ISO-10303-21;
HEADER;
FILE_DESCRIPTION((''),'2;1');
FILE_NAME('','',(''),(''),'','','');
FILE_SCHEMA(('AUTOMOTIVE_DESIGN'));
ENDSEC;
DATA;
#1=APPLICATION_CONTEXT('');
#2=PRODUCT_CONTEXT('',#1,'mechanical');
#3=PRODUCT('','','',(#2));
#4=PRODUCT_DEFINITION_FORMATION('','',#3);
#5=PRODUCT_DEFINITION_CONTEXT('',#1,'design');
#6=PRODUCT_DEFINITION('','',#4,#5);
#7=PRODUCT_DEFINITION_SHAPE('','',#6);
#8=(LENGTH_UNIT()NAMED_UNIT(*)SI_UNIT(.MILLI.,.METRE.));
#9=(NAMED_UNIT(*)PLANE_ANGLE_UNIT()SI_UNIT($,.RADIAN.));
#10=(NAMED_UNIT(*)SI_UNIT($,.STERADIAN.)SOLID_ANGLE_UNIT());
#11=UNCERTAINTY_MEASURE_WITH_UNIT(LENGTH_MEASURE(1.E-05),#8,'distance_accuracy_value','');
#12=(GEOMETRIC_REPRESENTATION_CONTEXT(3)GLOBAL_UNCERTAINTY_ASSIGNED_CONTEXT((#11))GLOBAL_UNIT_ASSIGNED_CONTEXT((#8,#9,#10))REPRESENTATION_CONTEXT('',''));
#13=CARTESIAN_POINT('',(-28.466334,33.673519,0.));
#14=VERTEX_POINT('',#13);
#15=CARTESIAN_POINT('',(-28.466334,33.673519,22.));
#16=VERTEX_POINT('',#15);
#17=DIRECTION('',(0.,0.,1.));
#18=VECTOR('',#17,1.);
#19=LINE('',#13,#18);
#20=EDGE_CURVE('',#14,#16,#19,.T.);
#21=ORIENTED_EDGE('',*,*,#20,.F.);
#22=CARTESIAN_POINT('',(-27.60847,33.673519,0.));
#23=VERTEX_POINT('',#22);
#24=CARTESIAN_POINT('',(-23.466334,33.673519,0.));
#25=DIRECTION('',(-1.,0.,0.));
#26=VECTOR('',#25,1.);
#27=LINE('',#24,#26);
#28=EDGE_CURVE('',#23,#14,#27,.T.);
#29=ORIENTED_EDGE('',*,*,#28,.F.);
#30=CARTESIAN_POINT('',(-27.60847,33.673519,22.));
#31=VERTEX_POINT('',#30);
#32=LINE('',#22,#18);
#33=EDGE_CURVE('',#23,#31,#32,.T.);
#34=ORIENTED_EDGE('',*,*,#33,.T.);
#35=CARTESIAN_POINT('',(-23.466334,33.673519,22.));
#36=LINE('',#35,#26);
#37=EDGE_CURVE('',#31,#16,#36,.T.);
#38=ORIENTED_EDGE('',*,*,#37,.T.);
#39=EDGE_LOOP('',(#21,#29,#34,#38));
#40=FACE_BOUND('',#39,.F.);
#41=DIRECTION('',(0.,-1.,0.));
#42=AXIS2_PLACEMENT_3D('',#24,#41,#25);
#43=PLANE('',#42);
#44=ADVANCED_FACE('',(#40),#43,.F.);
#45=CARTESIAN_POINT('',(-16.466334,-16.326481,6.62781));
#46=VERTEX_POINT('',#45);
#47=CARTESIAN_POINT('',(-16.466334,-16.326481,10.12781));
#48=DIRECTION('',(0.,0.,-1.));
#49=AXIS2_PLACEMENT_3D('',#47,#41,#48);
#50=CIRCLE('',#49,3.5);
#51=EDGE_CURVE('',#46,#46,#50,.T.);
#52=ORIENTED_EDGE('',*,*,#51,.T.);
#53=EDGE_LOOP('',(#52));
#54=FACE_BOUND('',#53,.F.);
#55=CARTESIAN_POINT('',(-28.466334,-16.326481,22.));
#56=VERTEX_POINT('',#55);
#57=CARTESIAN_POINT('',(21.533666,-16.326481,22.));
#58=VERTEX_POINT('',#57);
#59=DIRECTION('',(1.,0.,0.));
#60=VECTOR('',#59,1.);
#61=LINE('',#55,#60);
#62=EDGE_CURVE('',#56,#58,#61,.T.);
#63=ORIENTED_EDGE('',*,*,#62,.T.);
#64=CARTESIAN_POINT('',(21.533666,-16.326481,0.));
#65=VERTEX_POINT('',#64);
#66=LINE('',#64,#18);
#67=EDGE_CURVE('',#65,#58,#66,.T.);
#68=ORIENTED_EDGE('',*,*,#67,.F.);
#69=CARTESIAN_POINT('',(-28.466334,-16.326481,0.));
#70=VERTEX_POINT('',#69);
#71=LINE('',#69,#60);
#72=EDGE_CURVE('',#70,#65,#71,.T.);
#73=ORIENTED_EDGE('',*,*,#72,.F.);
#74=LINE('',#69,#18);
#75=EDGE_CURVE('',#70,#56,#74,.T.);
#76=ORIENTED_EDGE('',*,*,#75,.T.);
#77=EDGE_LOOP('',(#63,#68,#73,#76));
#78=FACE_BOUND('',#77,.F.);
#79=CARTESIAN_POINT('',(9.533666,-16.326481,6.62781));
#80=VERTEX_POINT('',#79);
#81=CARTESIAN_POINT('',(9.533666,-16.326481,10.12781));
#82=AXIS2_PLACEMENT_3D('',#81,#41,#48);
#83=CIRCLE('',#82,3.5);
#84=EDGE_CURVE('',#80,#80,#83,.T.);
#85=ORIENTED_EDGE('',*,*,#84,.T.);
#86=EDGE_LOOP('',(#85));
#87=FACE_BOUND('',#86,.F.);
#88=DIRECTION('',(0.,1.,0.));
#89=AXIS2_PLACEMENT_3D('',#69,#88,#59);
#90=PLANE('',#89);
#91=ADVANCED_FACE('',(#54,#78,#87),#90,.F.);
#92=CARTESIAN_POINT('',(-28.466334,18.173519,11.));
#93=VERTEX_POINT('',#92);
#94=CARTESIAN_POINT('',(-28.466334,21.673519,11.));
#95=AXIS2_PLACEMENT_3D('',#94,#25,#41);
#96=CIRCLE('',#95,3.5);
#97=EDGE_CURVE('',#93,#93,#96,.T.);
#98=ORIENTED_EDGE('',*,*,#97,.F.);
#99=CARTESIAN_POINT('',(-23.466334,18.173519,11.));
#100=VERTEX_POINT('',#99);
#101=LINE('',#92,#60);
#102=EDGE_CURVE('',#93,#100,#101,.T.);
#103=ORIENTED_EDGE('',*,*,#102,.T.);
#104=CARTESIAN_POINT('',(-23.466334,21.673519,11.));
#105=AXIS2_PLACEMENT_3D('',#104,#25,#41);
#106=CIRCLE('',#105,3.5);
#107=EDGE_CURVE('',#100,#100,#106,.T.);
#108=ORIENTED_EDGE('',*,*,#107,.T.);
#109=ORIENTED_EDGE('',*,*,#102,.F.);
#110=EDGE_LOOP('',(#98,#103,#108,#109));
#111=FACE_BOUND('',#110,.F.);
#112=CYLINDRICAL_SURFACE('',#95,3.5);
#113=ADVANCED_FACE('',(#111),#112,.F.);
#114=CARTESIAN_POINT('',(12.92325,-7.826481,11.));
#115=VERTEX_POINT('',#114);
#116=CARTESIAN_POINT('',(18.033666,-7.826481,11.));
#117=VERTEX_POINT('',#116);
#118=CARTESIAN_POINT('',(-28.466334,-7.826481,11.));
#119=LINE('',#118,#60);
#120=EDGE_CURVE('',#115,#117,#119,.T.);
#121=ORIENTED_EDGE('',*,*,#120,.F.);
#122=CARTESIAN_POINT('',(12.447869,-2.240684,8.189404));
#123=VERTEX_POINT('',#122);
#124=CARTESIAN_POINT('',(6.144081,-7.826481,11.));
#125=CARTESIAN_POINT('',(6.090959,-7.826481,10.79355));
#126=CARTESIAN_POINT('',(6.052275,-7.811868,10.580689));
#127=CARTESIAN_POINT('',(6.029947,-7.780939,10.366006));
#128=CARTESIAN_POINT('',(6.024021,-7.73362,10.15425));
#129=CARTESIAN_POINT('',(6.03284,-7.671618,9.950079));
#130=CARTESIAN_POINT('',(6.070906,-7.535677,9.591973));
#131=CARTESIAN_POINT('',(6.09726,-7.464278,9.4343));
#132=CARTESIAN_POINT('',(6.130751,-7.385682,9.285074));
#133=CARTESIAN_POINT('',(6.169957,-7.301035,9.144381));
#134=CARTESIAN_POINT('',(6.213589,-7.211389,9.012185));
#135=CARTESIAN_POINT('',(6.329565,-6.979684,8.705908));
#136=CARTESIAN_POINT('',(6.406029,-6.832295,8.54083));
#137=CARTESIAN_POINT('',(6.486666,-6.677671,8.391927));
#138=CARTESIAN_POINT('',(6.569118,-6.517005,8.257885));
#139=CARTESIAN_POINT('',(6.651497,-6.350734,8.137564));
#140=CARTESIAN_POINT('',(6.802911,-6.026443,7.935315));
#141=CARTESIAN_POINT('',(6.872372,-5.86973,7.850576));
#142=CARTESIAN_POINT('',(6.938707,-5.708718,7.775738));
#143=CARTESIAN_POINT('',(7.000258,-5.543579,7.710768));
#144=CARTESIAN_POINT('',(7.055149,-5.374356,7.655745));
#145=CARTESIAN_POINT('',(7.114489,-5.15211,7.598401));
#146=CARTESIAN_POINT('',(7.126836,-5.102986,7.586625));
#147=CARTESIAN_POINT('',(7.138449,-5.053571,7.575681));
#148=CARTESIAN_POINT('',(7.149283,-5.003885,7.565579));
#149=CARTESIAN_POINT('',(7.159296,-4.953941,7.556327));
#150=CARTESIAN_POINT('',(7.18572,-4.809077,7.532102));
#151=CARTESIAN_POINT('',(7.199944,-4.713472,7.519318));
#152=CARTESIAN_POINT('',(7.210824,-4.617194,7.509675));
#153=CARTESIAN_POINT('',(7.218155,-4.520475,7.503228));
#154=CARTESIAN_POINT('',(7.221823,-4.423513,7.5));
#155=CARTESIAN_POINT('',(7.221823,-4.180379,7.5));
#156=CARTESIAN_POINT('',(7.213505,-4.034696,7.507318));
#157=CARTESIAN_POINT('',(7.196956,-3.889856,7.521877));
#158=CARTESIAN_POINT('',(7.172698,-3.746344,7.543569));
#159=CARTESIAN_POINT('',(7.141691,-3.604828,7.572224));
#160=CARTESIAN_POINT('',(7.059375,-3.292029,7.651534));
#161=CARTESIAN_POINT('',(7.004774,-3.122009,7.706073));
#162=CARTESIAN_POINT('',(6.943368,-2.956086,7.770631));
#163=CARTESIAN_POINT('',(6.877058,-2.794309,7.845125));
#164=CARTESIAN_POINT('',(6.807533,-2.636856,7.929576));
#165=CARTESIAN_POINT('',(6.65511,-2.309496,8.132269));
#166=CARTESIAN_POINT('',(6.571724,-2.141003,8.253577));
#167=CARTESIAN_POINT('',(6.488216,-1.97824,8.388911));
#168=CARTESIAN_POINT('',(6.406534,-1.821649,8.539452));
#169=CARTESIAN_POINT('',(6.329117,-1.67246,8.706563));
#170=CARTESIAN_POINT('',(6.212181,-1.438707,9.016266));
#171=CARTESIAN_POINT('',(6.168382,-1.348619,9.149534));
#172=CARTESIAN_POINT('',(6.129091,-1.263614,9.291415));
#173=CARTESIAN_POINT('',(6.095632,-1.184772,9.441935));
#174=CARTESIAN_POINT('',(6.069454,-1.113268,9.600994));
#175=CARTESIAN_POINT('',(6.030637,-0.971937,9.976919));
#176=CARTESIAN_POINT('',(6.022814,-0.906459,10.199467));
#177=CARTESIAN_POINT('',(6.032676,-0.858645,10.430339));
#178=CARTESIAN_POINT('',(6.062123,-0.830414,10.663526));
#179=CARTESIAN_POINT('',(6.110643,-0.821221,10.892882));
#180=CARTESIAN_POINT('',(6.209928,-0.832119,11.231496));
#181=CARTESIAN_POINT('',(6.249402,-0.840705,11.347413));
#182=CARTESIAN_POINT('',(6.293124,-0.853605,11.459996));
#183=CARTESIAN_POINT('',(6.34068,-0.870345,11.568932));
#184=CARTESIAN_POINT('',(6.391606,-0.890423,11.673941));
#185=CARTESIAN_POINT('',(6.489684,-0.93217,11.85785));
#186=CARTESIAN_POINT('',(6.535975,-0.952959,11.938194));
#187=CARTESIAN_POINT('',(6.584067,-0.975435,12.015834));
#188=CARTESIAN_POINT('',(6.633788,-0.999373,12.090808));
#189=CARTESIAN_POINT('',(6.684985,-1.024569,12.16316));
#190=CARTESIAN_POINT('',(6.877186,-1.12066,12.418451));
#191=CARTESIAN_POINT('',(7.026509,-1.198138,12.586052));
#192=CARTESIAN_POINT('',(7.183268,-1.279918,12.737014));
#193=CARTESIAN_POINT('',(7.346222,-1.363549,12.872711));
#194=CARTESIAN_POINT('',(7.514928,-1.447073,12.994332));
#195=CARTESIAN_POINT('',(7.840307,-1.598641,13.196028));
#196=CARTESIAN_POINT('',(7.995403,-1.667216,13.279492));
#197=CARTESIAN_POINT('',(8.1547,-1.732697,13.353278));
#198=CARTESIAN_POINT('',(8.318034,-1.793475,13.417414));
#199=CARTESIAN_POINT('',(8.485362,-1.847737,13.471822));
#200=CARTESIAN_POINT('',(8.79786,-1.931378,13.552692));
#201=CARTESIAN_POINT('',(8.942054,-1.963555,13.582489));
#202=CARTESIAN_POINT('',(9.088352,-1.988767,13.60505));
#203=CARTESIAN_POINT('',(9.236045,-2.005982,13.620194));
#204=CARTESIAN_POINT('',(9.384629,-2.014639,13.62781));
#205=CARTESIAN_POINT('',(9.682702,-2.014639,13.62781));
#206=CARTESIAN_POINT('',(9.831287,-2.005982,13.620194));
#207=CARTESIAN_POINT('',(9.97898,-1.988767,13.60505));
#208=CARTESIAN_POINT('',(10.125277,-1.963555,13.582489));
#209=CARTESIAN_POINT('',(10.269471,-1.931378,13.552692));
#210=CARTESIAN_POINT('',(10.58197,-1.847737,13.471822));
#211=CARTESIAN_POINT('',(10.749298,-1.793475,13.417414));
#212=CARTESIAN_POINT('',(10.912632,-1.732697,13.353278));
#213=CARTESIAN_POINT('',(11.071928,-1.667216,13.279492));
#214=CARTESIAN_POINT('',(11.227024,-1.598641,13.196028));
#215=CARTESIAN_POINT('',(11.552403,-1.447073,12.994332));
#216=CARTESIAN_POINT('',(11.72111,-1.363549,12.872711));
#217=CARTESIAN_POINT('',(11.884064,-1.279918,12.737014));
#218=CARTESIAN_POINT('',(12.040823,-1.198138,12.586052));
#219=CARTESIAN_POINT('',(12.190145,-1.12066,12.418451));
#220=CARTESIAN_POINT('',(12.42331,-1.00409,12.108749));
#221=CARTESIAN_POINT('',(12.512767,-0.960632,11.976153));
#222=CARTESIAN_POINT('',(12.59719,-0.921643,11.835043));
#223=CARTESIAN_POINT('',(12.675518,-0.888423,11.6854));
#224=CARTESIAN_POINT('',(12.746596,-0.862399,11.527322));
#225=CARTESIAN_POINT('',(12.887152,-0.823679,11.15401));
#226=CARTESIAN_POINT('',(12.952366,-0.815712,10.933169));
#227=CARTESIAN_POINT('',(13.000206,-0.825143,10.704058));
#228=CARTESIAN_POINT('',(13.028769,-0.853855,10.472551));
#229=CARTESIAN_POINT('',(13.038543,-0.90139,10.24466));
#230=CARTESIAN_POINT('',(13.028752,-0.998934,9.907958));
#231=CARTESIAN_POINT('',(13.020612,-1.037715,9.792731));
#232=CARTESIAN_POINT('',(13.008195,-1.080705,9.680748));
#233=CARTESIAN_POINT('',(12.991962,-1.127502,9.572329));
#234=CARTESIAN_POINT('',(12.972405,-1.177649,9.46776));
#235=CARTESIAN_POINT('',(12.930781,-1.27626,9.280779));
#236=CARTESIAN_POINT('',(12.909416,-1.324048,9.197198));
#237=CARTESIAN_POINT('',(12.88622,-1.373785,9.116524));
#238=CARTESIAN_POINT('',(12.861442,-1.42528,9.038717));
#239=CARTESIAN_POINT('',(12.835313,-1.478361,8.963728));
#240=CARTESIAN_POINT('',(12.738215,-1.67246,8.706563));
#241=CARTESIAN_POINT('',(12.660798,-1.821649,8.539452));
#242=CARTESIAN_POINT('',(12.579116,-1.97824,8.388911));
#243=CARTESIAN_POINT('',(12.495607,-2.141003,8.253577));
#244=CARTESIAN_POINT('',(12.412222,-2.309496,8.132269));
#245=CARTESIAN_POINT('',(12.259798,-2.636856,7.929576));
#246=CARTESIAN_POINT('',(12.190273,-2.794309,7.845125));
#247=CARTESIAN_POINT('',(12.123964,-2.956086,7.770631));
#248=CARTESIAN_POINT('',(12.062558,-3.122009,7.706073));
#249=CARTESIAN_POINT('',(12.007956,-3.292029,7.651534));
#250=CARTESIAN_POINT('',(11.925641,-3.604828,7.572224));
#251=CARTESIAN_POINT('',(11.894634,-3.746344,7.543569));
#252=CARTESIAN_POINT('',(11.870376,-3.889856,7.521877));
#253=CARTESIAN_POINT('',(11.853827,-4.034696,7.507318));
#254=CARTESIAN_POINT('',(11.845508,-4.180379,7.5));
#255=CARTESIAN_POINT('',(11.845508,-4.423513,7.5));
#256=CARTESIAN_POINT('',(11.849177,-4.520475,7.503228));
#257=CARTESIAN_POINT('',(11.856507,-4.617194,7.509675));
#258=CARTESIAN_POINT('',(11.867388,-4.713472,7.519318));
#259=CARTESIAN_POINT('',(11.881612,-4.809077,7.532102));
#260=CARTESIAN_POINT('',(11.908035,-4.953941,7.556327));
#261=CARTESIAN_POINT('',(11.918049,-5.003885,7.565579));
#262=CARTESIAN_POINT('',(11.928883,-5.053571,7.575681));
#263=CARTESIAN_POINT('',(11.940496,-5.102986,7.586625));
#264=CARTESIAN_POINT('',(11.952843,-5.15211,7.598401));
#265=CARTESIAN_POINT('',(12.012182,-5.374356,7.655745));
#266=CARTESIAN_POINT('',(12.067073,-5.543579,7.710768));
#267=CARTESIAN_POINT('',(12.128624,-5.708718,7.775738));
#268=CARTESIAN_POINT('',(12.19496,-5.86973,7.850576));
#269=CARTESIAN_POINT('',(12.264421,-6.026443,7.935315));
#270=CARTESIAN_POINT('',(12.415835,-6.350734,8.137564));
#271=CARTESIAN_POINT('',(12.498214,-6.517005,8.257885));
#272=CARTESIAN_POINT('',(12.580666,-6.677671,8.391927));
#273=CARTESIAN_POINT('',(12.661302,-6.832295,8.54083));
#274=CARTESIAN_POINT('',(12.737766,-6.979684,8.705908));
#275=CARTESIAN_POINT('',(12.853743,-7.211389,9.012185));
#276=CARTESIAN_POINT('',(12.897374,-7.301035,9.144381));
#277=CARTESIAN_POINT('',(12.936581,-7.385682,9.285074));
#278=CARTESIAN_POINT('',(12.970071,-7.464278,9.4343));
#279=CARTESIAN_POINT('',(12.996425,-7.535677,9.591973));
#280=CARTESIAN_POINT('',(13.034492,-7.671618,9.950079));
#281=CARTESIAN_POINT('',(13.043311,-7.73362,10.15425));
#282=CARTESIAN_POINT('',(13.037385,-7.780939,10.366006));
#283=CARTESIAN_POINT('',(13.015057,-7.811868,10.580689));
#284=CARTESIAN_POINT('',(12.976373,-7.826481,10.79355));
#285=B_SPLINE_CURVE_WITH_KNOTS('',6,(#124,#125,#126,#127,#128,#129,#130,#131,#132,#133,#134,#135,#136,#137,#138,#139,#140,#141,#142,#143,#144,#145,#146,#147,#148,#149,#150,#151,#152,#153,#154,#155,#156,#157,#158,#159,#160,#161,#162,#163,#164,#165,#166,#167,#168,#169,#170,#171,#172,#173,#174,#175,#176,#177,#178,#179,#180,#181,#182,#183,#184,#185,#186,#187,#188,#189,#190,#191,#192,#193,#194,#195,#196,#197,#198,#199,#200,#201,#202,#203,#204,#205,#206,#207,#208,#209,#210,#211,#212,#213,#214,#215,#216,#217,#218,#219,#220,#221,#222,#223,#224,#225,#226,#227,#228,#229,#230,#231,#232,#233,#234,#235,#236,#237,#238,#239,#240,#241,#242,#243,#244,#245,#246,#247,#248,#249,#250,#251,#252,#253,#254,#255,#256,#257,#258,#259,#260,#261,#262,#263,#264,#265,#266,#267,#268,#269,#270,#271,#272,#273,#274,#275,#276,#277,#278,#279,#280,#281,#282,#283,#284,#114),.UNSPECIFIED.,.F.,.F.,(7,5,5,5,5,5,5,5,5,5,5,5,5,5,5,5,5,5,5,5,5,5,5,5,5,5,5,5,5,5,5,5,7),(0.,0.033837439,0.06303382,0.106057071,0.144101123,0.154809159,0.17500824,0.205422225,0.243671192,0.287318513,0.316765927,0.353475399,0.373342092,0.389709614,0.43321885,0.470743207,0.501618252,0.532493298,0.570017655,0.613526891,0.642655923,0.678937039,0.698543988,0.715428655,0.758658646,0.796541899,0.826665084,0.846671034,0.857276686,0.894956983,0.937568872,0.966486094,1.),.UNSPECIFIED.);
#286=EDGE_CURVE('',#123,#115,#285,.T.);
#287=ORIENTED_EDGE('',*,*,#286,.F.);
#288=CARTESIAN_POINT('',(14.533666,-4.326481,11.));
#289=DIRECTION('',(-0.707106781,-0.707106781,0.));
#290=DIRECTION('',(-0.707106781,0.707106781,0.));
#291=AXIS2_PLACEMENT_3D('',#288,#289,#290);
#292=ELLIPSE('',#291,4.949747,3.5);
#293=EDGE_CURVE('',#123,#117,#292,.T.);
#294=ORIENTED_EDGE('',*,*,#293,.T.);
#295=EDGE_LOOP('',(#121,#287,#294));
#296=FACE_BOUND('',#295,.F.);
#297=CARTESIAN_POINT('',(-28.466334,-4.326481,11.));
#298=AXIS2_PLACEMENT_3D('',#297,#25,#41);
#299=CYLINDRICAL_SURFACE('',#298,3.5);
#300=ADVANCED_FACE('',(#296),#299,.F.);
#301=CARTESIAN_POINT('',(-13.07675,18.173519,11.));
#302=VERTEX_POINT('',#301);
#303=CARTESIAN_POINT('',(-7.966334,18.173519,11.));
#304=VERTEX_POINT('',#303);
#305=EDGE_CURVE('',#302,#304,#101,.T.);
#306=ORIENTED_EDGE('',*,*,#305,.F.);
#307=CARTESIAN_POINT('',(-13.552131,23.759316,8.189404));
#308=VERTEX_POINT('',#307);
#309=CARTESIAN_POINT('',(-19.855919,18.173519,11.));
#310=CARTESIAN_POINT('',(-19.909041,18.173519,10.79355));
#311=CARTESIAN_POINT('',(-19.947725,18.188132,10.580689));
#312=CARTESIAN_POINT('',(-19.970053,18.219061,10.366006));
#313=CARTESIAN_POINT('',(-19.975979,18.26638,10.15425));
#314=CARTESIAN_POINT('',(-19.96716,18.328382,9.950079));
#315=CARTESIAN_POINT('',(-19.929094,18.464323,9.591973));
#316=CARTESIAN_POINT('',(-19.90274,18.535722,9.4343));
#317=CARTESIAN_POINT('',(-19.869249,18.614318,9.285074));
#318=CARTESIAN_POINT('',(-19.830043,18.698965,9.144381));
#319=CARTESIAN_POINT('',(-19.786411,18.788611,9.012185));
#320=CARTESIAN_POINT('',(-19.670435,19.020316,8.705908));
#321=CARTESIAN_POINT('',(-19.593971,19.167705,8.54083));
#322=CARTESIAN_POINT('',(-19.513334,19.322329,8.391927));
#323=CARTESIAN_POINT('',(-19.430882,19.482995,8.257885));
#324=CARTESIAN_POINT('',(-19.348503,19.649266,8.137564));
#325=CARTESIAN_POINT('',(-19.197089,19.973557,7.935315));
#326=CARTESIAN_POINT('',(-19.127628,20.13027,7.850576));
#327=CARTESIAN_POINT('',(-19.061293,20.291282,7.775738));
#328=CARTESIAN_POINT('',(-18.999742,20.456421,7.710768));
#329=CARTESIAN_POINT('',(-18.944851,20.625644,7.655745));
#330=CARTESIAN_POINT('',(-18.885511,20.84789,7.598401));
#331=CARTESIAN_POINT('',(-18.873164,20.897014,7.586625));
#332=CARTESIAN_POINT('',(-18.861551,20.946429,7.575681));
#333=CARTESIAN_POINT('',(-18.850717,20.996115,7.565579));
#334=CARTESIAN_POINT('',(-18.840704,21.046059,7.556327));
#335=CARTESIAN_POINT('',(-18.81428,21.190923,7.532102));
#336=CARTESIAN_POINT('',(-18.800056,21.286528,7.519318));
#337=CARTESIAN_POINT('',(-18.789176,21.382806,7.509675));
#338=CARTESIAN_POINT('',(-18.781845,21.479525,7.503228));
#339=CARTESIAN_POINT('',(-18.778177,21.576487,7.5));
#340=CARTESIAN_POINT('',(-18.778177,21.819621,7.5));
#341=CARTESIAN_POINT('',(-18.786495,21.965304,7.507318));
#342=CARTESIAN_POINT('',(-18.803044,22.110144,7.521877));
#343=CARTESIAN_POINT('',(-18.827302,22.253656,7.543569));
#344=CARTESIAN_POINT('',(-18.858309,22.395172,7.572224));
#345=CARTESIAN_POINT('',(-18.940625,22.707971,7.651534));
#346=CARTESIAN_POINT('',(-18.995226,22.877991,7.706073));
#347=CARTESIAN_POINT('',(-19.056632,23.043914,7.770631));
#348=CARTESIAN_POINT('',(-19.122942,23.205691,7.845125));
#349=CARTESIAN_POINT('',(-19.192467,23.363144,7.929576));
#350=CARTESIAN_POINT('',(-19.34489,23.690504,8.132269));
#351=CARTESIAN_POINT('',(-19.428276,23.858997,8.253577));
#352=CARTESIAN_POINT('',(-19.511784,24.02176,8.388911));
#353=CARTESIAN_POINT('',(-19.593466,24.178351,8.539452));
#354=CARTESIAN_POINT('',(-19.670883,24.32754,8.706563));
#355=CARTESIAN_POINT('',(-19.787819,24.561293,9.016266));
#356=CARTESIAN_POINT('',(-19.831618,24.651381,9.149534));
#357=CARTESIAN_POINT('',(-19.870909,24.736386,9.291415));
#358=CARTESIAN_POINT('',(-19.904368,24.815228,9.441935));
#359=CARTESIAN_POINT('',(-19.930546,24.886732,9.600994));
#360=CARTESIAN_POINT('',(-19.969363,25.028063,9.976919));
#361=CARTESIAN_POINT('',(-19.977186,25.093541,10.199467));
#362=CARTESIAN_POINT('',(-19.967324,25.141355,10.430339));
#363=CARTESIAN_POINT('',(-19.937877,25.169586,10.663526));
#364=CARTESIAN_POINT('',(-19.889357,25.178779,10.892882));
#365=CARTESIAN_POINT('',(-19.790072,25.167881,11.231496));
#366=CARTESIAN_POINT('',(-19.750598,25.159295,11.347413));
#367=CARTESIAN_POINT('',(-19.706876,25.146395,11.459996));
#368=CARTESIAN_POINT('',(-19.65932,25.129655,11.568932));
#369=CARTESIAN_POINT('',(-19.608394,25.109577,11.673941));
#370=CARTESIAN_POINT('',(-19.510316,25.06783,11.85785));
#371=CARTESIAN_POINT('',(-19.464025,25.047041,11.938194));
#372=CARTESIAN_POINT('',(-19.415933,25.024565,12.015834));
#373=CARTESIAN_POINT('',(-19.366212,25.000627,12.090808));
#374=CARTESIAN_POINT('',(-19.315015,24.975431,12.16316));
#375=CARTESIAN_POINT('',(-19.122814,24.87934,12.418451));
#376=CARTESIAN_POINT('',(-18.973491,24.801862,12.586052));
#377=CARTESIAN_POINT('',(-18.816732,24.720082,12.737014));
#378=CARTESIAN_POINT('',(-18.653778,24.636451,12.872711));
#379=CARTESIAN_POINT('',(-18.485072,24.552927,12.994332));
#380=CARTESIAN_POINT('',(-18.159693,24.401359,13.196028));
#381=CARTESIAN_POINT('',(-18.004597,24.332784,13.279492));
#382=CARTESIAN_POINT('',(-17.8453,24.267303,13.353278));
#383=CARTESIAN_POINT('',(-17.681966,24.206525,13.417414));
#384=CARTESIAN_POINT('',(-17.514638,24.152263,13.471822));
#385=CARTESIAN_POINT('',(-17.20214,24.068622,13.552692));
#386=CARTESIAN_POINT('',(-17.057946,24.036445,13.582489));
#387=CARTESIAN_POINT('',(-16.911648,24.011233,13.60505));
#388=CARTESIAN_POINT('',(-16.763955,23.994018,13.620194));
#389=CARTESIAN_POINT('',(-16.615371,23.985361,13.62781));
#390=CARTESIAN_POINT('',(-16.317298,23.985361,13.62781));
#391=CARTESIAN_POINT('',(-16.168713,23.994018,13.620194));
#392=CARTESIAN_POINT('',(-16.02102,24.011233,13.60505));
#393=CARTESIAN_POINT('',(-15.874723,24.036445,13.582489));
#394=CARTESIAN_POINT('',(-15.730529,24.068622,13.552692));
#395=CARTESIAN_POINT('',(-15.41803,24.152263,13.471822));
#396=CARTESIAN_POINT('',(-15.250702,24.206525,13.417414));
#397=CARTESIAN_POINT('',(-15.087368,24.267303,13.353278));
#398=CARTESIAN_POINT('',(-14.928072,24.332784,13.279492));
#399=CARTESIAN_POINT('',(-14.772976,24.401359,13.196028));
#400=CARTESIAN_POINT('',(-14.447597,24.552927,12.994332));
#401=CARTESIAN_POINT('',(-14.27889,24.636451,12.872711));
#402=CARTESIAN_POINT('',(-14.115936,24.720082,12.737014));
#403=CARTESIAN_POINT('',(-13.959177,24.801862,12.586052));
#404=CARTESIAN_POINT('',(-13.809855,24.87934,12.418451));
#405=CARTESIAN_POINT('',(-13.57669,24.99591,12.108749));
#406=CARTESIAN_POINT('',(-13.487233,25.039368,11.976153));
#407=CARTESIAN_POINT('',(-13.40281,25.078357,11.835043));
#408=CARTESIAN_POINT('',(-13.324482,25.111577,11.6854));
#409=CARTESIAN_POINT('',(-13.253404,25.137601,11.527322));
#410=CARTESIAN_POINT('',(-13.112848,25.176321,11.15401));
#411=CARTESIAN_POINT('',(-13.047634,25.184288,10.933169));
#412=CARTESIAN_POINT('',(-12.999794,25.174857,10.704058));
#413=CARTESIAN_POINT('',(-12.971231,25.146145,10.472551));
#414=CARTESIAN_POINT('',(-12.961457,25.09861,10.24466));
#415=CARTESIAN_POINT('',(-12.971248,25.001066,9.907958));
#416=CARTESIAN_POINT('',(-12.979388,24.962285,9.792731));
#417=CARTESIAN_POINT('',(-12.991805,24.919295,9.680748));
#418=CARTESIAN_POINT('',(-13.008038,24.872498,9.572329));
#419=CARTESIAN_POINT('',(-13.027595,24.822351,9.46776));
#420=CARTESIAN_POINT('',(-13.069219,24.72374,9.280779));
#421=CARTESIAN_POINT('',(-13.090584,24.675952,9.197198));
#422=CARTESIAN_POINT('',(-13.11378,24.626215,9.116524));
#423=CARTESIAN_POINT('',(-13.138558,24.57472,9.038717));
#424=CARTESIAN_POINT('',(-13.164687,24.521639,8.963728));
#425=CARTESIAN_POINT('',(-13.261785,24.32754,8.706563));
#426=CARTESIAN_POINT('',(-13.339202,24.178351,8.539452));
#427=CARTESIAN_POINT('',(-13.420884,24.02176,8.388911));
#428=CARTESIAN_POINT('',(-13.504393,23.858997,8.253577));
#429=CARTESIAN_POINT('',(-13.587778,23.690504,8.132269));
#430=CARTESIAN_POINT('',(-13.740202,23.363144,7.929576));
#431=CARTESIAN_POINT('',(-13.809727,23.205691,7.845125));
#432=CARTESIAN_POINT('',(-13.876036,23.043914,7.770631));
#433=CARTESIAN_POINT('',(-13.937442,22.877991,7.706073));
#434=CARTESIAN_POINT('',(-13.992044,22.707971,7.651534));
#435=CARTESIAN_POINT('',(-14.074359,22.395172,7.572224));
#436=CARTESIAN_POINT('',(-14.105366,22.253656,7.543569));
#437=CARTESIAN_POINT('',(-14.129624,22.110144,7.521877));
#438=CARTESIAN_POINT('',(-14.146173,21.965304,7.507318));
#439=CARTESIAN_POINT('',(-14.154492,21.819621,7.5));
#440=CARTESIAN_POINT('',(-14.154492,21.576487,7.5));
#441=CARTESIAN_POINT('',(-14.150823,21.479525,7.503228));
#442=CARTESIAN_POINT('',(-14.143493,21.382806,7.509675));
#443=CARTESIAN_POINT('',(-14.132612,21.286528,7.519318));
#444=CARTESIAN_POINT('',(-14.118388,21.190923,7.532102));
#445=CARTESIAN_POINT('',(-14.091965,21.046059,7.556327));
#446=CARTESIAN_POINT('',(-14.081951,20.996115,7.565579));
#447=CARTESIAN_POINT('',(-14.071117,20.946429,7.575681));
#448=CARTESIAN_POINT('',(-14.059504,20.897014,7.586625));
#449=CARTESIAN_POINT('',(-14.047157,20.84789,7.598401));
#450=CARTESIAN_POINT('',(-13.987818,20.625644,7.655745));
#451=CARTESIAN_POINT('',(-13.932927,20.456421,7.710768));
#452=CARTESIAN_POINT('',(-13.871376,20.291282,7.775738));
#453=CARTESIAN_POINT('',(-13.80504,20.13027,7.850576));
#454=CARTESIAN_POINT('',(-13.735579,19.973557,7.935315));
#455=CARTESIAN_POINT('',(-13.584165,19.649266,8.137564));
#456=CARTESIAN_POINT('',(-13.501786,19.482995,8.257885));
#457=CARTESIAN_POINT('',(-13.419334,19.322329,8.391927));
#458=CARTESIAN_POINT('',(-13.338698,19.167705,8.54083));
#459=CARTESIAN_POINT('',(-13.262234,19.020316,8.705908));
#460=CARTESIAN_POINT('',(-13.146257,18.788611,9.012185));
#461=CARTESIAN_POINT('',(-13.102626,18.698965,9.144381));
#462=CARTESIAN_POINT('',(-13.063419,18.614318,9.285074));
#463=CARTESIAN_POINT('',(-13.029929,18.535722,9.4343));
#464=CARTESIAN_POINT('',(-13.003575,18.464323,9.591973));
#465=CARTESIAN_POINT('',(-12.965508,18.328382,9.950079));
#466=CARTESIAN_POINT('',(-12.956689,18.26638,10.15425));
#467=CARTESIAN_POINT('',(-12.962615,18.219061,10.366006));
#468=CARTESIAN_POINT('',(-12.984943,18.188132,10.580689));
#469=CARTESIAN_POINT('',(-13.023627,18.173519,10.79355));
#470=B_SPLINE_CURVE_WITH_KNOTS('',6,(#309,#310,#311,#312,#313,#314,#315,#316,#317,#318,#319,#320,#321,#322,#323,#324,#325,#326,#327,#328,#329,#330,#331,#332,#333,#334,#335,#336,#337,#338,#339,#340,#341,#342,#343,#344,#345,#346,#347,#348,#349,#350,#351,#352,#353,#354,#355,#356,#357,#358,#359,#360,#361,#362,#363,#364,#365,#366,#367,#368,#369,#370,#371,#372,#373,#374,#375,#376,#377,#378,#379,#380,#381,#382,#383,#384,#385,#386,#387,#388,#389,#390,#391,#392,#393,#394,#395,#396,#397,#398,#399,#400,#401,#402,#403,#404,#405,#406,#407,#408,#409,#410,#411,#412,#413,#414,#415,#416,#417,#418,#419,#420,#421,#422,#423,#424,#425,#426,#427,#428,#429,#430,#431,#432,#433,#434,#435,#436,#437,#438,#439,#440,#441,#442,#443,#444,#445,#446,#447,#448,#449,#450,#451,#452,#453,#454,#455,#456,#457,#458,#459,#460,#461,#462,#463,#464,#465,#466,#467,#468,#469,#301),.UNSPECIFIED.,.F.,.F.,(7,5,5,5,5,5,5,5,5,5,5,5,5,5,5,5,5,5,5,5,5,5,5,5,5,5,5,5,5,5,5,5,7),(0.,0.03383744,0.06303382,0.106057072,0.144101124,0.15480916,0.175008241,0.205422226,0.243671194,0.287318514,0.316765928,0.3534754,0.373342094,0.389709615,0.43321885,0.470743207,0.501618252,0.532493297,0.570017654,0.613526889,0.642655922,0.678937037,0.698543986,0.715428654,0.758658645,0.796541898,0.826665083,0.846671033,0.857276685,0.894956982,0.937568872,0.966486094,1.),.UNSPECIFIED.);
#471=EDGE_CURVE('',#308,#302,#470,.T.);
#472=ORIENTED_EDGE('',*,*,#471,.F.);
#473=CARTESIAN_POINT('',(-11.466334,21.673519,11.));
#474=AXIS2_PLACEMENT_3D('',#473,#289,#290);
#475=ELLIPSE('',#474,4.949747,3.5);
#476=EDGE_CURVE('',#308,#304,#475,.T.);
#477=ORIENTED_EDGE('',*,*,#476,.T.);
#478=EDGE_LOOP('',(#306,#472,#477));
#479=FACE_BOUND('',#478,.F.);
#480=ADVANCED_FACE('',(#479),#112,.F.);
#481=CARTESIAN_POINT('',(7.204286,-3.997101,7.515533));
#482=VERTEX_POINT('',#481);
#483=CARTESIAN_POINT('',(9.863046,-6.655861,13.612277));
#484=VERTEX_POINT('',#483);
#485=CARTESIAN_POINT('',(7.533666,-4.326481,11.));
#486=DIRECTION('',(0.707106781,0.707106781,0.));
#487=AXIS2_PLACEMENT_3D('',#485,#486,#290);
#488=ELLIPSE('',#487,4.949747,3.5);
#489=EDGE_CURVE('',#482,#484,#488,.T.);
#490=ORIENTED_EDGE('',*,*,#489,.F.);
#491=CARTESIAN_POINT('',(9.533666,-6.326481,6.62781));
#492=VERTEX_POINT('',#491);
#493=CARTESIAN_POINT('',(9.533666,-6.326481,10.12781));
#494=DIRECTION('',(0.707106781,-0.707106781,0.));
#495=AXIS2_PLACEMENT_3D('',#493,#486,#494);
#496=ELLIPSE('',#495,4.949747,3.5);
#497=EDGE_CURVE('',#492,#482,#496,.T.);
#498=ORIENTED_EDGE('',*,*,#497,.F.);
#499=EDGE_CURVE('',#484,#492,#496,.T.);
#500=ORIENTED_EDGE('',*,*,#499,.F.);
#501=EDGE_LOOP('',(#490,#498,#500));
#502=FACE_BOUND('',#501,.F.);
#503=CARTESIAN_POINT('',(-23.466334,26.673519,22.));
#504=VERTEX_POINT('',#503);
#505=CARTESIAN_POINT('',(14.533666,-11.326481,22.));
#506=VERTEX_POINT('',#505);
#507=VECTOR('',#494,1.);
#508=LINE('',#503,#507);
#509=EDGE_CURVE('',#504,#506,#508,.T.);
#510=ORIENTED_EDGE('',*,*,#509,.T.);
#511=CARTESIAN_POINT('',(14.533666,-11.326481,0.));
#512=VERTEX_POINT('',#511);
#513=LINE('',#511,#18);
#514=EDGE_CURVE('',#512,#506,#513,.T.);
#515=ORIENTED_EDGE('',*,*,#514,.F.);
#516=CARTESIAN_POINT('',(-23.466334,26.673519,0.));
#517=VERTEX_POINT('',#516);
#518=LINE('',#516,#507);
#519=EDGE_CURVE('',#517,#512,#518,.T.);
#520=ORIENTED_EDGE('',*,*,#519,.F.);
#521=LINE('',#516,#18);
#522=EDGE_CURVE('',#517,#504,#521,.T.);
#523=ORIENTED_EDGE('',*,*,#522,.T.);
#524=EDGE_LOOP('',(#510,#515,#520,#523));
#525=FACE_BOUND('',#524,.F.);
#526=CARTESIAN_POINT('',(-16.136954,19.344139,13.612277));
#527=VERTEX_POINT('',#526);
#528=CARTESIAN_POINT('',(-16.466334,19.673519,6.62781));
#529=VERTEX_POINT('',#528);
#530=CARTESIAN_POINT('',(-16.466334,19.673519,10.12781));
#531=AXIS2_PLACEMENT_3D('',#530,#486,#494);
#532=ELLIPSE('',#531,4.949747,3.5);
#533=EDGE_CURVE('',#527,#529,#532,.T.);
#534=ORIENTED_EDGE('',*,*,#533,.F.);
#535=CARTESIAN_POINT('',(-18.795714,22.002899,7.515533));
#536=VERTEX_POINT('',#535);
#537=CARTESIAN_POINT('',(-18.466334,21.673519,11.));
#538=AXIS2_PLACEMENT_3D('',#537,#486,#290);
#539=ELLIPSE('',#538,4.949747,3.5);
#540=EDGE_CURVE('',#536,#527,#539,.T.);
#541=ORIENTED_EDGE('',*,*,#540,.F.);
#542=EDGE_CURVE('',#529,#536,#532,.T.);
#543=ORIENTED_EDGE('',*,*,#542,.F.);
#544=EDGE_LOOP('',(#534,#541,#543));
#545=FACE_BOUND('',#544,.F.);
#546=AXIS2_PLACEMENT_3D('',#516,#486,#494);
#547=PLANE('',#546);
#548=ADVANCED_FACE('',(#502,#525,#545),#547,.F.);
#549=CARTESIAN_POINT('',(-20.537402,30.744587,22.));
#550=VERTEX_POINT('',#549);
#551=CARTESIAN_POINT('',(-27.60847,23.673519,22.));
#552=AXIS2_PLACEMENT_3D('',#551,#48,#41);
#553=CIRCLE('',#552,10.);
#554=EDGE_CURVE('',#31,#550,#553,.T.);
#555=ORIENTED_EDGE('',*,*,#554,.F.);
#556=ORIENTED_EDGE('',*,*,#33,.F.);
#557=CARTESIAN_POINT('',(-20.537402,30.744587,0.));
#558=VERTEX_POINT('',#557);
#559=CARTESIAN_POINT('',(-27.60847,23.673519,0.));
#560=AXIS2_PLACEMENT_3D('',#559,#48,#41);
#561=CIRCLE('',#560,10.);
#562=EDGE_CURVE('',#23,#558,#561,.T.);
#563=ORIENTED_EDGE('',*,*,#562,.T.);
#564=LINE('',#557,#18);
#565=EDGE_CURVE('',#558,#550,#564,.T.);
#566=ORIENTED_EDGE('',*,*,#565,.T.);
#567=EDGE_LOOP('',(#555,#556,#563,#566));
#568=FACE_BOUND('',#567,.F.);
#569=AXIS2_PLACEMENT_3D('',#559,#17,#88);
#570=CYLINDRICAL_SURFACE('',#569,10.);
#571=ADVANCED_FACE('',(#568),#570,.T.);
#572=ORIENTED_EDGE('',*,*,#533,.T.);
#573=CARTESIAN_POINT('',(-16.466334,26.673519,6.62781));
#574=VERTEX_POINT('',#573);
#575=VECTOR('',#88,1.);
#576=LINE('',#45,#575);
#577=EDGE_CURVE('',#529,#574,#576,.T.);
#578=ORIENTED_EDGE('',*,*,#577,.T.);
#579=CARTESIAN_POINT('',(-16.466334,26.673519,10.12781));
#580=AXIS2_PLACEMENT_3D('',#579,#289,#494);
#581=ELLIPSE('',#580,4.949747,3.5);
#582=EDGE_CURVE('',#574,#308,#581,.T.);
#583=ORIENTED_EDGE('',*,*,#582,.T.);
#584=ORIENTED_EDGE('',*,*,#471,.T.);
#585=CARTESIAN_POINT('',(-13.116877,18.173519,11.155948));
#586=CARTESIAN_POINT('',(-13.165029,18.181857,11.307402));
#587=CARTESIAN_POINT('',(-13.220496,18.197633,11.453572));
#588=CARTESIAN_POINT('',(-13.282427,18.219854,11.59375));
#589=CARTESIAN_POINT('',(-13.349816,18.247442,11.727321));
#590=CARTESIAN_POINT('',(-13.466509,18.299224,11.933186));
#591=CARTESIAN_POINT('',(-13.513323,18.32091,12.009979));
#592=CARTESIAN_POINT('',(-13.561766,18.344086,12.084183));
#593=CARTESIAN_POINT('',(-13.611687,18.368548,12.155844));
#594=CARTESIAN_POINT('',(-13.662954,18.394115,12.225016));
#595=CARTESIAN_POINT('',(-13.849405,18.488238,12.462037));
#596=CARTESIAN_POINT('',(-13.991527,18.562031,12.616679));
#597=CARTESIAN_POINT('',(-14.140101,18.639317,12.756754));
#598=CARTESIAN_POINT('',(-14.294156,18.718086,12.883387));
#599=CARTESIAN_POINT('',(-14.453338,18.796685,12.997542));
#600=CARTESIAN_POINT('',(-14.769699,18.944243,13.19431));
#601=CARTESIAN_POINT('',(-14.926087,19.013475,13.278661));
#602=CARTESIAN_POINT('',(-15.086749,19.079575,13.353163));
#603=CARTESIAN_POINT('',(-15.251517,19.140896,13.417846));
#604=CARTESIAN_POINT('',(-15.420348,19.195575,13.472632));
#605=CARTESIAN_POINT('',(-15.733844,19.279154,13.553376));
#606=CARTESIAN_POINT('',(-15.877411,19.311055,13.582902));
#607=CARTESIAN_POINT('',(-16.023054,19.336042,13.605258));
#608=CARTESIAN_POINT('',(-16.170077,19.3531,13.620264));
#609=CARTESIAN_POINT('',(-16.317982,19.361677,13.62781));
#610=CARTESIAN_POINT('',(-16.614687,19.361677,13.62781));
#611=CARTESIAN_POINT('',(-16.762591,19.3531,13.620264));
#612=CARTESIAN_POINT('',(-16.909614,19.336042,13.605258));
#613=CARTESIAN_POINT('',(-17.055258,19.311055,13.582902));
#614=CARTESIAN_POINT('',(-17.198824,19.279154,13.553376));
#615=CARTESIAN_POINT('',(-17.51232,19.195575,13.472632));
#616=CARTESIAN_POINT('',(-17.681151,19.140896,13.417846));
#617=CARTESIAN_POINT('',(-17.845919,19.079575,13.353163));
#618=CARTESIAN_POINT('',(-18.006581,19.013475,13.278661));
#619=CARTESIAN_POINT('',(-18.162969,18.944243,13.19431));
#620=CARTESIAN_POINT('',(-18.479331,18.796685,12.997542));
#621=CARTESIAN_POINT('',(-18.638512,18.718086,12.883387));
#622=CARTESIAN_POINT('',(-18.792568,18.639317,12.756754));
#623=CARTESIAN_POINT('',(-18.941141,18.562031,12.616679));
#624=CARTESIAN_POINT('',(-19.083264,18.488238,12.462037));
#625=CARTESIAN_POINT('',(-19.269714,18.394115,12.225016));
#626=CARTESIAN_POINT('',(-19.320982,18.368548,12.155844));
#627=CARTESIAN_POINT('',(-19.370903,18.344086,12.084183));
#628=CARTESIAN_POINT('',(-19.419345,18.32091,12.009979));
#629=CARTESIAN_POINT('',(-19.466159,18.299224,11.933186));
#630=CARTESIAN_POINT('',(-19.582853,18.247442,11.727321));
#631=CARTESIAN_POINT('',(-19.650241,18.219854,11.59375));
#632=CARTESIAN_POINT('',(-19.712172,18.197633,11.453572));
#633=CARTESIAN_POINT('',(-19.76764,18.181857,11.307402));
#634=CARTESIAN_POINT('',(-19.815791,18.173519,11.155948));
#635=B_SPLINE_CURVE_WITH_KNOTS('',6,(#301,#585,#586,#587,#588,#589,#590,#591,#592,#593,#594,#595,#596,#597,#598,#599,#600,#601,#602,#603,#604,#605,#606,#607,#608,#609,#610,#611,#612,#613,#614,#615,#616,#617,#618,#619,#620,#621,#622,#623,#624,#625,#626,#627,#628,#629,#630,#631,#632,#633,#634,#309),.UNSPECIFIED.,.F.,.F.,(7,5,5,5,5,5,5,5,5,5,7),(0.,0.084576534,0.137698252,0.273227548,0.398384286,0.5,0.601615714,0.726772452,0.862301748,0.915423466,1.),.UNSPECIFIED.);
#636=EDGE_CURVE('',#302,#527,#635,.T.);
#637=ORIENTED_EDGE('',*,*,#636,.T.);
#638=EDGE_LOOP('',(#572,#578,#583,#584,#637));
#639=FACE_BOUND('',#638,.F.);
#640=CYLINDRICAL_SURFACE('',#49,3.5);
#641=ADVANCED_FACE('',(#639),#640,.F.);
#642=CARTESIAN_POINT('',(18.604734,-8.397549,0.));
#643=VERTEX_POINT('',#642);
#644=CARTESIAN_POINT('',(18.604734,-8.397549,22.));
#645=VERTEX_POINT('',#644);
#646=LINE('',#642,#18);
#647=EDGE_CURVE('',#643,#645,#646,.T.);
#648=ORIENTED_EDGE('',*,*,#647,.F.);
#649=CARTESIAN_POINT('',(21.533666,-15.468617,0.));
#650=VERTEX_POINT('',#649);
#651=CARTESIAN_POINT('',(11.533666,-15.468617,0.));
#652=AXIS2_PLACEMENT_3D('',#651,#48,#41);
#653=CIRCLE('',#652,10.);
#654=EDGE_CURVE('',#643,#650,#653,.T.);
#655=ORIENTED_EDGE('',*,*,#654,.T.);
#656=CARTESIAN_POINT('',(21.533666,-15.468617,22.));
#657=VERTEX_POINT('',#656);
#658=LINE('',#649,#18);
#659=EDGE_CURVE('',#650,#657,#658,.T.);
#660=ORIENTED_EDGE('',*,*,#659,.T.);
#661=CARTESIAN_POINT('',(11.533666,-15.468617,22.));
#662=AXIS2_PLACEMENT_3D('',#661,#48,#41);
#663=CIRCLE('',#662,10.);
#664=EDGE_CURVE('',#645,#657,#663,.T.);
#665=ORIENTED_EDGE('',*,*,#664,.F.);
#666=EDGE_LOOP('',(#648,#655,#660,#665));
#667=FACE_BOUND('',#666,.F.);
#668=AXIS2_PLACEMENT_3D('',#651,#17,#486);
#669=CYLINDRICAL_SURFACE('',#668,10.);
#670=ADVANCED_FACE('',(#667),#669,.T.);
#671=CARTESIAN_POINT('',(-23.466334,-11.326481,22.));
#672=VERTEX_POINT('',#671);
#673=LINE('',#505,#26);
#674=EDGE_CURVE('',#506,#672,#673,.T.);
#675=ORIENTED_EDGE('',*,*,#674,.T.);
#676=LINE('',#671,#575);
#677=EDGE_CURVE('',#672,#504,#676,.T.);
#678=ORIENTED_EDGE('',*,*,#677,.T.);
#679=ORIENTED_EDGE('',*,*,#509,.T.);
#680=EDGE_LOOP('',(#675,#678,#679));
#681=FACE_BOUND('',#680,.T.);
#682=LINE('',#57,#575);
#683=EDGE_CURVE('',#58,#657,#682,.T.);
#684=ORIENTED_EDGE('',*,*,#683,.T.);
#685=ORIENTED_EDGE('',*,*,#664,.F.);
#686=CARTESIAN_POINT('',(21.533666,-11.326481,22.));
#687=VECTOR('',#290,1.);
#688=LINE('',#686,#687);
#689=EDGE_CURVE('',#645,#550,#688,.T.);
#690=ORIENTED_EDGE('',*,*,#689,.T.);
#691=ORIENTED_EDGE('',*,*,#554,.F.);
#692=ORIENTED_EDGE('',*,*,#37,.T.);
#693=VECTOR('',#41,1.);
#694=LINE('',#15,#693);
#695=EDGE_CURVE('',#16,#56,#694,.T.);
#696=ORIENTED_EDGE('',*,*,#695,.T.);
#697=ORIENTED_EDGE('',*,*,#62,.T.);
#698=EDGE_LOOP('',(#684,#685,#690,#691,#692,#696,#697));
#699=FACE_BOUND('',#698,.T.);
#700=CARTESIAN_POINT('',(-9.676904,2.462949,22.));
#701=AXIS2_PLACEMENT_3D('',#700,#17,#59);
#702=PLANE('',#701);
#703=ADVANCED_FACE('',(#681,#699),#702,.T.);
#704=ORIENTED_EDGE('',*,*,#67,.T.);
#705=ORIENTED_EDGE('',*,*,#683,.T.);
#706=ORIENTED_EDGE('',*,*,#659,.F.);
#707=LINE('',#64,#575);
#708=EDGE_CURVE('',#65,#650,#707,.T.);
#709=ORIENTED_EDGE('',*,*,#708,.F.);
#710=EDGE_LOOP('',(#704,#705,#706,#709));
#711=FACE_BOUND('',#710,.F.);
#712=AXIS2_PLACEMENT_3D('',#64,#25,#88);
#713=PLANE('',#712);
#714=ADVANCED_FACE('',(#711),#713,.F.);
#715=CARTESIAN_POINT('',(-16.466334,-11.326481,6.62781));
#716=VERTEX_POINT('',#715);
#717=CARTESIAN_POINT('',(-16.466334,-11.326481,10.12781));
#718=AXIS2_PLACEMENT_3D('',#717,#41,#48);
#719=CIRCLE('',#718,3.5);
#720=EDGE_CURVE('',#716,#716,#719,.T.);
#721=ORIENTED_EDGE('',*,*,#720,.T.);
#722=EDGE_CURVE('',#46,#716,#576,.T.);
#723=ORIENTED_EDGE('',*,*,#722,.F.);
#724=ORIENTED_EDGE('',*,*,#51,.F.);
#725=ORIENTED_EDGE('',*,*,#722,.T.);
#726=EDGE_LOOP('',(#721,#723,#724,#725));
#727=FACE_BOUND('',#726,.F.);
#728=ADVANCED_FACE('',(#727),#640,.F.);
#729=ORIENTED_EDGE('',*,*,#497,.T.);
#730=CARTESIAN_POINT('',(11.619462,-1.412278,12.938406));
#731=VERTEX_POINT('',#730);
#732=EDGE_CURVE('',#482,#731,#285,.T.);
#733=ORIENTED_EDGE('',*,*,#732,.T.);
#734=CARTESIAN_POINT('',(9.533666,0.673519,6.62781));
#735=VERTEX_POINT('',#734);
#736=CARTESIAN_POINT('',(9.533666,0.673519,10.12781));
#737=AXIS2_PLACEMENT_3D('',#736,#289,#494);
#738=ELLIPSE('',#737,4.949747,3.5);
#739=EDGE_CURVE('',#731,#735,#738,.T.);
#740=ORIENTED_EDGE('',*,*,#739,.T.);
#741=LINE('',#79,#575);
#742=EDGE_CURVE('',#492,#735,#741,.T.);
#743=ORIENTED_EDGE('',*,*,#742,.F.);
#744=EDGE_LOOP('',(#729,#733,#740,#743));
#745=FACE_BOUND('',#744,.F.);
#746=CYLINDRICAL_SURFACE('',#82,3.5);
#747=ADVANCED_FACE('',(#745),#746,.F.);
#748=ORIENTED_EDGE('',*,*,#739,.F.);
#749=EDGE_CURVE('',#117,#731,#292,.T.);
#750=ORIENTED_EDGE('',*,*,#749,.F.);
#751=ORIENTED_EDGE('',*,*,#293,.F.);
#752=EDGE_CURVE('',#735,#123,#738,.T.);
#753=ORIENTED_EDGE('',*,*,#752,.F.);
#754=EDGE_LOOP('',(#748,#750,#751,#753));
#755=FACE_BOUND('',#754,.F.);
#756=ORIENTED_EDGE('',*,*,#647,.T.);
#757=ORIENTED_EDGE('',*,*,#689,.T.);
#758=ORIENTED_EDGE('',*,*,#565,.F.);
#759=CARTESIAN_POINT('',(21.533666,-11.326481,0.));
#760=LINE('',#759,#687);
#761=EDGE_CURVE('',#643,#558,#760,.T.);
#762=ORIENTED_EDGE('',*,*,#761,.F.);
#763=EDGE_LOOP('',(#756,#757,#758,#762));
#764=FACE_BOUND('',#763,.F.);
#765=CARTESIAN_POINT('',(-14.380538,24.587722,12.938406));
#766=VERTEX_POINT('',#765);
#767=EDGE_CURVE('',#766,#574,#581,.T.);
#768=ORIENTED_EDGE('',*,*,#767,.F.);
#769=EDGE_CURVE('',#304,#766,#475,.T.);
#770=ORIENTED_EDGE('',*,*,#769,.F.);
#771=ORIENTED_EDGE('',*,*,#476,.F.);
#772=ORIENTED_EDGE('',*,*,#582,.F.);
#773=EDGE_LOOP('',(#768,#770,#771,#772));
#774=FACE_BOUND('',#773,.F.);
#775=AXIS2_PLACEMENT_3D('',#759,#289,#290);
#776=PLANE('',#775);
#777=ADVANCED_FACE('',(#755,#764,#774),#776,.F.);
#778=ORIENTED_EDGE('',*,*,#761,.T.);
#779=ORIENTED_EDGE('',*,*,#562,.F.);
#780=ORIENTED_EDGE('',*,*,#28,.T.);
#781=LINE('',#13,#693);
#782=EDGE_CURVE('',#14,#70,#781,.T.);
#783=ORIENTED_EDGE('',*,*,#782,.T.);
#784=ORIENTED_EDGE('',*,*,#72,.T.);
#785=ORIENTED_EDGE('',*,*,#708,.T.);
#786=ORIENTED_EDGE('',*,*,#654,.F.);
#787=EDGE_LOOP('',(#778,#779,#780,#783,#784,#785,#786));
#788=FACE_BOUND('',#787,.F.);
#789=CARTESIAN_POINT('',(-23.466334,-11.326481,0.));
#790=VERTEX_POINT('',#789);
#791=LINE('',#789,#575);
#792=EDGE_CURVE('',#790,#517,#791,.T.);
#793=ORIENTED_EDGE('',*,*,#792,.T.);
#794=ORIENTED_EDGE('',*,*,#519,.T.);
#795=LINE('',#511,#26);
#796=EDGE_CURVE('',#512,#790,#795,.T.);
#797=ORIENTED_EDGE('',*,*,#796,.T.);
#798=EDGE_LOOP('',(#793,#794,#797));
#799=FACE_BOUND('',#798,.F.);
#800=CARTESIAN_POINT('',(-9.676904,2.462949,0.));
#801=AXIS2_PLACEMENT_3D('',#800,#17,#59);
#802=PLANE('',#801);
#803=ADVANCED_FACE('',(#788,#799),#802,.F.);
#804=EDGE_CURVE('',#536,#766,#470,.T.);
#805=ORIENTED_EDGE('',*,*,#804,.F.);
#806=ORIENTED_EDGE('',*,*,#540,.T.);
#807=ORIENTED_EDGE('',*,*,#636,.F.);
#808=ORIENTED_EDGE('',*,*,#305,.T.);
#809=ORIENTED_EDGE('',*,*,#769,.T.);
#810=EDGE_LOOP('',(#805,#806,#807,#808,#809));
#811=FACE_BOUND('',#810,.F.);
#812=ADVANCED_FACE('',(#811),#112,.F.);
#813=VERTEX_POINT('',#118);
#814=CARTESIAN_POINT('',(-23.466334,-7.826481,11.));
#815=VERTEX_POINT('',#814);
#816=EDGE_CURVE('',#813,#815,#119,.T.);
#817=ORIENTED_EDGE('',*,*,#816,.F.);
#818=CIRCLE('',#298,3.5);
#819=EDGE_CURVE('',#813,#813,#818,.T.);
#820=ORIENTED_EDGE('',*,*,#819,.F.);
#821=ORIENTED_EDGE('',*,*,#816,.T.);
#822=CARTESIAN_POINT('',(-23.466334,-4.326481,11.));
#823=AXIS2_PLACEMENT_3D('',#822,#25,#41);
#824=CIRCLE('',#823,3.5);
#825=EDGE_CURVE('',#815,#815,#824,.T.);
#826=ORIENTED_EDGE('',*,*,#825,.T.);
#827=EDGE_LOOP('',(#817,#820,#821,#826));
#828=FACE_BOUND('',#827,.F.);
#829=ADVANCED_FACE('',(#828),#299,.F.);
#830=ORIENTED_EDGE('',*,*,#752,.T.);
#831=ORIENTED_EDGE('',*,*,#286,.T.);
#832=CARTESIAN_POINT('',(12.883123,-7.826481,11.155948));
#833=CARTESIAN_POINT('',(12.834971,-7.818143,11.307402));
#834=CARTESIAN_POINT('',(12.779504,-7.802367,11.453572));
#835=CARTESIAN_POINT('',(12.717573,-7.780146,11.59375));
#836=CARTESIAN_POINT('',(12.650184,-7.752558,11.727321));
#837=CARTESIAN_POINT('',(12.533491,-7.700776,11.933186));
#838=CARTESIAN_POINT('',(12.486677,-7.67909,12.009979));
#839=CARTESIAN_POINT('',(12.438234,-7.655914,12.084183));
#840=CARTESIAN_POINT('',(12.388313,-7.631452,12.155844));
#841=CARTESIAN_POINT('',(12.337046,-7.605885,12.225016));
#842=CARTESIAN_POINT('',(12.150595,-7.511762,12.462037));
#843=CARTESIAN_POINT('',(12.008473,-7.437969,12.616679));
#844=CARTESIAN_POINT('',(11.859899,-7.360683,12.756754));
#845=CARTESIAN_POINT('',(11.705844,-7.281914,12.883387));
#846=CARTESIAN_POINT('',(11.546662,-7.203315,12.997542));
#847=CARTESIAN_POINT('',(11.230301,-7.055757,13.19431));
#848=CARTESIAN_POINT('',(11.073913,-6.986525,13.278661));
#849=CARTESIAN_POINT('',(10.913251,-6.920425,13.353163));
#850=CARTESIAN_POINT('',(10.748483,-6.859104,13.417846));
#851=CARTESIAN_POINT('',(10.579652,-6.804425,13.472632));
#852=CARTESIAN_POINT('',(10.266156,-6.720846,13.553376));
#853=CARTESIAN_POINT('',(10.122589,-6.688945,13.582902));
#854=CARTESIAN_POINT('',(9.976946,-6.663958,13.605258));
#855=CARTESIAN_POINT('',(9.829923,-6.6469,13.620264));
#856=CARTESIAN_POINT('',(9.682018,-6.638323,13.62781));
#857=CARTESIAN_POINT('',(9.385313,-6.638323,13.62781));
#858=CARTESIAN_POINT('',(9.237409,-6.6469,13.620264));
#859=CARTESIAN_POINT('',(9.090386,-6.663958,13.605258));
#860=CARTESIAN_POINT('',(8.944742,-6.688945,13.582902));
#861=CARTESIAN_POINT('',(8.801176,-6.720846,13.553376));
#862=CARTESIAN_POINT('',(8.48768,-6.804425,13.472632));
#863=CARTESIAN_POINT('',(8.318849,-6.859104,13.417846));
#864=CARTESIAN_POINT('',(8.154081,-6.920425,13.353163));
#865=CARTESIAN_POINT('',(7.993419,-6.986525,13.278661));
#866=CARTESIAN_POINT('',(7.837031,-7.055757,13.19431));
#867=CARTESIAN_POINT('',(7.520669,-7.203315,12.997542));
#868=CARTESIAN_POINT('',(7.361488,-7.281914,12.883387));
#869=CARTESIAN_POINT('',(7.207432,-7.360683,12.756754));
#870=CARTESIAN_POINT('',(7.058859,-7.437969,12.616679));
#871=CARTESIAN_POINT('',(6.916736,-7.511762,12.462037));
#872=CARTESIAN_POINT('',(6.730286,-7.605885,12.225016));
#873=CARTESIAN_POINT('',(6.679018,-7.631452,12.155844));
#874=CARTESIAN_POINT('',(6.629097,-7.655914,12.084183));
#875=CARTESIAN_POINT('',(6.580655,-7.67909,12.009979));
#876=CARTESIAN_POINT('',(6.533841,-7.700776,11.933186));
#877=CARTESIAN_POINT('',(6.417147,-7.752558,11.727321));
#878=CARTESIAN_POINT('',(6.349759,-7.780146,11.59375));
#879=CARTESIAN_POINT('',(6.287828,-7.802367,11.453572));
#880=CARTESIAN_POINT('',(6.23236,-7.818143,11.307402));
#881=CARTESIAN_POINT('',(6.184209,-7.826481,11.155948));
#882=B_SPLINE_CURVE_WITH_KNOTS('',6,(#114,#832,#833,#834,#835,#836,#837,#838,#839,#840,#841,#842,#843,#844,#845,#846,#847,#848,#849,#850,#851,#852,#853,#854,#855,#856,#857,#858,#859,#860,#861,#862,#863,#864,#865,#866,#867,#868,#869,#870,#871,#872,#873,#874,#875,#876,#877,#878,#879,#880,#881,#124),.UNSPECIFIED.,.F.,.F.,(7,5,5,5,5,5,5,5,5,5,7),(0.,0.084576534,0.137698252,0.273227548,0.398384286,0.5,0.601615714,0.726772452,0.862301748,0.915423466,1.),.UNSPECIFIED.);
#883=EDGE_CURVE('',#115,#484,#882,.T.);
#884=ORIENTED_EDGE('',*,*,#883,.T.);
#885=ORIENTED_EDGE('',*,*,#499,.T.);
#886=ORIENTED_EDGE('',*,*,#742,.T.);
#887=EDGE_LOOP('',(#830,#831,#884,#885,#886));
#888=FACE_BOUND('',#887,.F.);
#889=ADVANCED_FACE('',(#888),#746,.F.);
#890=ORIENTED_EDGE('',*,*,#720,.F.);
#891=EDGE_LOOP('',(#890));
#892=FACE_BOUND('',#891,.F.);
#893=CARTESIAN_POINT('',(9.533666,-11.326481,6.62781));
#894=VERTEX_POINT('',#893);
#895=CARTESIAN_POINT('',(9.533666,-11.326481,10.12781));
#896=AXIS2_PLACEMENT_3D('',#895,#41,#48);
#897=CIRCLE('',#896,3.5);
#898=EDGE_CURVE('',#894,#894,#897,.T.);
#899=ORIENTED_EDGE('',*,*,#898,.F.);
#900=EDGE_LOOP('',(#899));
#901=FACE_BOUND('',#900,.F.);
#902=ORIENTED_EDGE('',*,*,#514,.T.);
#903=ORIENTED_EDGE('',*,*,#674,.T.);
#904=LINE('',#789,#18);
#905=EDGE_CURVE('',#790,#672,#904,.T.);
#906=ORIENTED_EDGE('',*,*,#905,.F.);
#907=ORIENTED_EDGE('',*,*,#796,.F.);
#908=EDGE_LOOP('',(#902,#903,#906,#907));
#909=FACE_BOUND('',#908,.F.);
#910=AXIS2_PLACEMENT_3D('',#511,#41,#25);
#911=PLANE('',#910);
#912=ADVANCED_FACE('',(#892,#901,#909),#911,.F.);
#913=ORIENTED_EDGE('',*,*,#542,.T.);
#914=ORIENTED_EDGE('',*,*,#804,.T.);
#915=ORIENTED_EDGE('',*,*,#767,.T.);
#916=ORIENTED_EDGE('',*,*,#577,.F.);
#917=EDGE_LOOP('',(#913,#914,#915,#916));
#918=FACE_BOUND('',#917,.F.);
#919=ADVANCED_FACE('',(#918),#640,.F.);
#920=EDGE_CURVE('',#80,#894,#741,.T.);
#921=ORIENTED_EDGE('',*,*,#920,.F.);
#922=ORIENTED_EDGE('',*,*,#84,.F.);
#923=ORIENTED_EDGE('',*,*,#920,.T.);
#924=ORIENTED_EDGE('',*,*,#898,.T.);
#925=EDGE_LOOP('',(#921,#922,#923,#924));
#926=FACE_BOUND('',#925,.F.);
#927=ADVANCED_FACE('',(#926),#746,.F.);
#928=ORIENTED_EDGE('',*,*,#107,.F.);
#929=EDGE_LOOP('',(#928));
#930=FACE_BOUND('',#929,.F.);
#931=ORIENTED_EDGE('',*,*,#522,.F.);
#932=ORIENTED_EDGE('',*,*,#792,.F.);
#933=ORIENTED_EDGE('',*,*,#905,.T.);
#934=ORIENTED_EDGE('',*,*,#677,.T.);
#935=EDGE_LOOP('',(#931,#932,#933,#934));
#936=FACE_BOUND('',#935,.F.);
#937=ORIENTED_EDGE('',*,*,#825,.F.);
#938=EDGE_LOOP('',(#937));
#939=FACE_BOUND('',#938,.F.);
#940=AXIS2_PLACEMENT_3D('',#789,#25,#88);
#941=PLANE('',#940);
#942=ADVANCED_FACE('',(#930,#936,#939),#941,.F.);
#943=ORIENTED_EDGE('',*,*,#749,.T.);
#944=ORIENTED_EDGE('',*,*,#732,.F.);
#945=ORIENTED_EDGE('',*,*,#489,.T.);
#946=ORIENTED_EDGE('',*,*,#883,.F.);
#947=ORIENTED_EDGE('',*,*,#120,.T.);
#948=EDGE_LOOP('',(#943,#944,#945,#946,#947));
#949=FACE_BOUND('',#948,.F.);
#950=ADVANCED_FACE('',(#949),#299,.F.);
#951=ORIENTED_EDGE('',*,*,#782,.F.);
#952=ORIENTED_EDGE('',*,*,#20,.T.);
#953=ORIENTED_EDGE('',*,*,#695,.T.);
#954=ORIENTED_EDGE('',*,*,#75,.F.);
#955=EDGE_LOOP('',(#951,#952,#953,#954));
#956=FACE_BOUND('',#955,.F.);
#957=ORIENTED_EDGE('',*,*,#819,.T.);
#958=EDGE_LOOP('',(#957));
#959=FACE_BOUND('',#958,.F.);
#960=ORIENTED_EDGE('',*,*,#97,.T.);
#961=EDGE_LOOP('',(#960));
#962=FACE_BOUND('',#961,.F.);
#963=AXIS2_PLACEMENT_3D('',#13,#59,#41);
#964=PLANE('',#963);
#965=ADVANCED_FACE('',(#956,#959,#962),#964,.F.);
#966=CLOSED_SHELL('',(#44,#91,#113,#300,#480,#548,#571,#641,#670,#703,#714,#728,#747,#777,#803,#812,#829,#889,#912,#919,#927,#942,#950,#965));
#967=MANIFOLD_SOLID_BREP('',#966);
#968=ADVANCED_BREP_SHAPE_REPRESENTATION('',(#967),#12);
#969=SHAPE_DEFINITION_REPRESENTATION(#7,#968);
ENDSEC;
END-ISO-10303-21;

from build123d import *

# Parameters (mm, degrees)
BOSS_EXTRUDE1_DEPTH = 22
FILLET1_R           = 10
FILLET2_R           = 10
SKETCH2_R           = 3.5
CUT_EXTRUDE2_DEPTH  = 50
SKETCH4_R           = 3.5
CUT_EXTRUDE3_DEPTH  = 50


with BuildPart() as part:
    # Sketch1 → Boss-Extrude1 (new body)
    with BuildSketch(Plane.XY):
        Polygon((-28.466334251, 33.673519048), (-28.466334251, -16.326480952), (21.533665749, -16.326480952), (21.533665749, -11.326480952), (-23.466334251, 33.673519048), align=None)
        Polygon((14.533665749, -11.326480952), (-23.466334251, -11.326480952), (-23.466334251, 26.673519048), align=None, mode=Mode.SUBTRACT)
    extrude(amount=BOSS_EXTRUDE1_DEPTH)

    # Fillet1
    fillet1_edges = [part.edges().sort_by_distance(p)[0] for p in [
        (-23.466334251, 33.673519048, 11),
    ]]
    fillet(fillet1_edges, radius=FILLET1_R)

    # Fillet2
    fillet2_edges = [part.edges().sort_by_distance(p)[0] for p in [
        (21.533665749, -11.326480952, 11),
    ]]
    fillet(fillet2_edges, radius=FILLET2_R)

    # Sketch2 → Cut-Extrude2 (cut)
    with BuildSketch(Plane.ZY.offset(28.466334251)):
        with Locations(Location((11, 21.673519048, 0), (0, 0, 270))):
            Circle(SKETCH2_R)
        with Locations(Location((11, -4.326480952, 0), (0, 0, 270))):
            Circle(SKETCH2_R)
    extrude(amount=-CUT_EXTRUDE2_DEPTH, mode=Mode.SUBTRACT)

    # Sketch4 → Cut-Extrude3 (cut)
    with BuildSketch(Plane.XZ.offset(16.326480952)):
        with Locations(Location((-16.466334251, 10.12780984, 0), (0, 0, 270))):
            Circle(SKETCH4_R)
        with Locations(Location((9.533665749, 10.12780984, 0), (0, 0, 270))):
            Circle(SKETCH4_R)
    extrude(amount=-CUT_EXTRUDE3_DEPTH, mode=Mode.SUBTRACT)


solid = part.part
